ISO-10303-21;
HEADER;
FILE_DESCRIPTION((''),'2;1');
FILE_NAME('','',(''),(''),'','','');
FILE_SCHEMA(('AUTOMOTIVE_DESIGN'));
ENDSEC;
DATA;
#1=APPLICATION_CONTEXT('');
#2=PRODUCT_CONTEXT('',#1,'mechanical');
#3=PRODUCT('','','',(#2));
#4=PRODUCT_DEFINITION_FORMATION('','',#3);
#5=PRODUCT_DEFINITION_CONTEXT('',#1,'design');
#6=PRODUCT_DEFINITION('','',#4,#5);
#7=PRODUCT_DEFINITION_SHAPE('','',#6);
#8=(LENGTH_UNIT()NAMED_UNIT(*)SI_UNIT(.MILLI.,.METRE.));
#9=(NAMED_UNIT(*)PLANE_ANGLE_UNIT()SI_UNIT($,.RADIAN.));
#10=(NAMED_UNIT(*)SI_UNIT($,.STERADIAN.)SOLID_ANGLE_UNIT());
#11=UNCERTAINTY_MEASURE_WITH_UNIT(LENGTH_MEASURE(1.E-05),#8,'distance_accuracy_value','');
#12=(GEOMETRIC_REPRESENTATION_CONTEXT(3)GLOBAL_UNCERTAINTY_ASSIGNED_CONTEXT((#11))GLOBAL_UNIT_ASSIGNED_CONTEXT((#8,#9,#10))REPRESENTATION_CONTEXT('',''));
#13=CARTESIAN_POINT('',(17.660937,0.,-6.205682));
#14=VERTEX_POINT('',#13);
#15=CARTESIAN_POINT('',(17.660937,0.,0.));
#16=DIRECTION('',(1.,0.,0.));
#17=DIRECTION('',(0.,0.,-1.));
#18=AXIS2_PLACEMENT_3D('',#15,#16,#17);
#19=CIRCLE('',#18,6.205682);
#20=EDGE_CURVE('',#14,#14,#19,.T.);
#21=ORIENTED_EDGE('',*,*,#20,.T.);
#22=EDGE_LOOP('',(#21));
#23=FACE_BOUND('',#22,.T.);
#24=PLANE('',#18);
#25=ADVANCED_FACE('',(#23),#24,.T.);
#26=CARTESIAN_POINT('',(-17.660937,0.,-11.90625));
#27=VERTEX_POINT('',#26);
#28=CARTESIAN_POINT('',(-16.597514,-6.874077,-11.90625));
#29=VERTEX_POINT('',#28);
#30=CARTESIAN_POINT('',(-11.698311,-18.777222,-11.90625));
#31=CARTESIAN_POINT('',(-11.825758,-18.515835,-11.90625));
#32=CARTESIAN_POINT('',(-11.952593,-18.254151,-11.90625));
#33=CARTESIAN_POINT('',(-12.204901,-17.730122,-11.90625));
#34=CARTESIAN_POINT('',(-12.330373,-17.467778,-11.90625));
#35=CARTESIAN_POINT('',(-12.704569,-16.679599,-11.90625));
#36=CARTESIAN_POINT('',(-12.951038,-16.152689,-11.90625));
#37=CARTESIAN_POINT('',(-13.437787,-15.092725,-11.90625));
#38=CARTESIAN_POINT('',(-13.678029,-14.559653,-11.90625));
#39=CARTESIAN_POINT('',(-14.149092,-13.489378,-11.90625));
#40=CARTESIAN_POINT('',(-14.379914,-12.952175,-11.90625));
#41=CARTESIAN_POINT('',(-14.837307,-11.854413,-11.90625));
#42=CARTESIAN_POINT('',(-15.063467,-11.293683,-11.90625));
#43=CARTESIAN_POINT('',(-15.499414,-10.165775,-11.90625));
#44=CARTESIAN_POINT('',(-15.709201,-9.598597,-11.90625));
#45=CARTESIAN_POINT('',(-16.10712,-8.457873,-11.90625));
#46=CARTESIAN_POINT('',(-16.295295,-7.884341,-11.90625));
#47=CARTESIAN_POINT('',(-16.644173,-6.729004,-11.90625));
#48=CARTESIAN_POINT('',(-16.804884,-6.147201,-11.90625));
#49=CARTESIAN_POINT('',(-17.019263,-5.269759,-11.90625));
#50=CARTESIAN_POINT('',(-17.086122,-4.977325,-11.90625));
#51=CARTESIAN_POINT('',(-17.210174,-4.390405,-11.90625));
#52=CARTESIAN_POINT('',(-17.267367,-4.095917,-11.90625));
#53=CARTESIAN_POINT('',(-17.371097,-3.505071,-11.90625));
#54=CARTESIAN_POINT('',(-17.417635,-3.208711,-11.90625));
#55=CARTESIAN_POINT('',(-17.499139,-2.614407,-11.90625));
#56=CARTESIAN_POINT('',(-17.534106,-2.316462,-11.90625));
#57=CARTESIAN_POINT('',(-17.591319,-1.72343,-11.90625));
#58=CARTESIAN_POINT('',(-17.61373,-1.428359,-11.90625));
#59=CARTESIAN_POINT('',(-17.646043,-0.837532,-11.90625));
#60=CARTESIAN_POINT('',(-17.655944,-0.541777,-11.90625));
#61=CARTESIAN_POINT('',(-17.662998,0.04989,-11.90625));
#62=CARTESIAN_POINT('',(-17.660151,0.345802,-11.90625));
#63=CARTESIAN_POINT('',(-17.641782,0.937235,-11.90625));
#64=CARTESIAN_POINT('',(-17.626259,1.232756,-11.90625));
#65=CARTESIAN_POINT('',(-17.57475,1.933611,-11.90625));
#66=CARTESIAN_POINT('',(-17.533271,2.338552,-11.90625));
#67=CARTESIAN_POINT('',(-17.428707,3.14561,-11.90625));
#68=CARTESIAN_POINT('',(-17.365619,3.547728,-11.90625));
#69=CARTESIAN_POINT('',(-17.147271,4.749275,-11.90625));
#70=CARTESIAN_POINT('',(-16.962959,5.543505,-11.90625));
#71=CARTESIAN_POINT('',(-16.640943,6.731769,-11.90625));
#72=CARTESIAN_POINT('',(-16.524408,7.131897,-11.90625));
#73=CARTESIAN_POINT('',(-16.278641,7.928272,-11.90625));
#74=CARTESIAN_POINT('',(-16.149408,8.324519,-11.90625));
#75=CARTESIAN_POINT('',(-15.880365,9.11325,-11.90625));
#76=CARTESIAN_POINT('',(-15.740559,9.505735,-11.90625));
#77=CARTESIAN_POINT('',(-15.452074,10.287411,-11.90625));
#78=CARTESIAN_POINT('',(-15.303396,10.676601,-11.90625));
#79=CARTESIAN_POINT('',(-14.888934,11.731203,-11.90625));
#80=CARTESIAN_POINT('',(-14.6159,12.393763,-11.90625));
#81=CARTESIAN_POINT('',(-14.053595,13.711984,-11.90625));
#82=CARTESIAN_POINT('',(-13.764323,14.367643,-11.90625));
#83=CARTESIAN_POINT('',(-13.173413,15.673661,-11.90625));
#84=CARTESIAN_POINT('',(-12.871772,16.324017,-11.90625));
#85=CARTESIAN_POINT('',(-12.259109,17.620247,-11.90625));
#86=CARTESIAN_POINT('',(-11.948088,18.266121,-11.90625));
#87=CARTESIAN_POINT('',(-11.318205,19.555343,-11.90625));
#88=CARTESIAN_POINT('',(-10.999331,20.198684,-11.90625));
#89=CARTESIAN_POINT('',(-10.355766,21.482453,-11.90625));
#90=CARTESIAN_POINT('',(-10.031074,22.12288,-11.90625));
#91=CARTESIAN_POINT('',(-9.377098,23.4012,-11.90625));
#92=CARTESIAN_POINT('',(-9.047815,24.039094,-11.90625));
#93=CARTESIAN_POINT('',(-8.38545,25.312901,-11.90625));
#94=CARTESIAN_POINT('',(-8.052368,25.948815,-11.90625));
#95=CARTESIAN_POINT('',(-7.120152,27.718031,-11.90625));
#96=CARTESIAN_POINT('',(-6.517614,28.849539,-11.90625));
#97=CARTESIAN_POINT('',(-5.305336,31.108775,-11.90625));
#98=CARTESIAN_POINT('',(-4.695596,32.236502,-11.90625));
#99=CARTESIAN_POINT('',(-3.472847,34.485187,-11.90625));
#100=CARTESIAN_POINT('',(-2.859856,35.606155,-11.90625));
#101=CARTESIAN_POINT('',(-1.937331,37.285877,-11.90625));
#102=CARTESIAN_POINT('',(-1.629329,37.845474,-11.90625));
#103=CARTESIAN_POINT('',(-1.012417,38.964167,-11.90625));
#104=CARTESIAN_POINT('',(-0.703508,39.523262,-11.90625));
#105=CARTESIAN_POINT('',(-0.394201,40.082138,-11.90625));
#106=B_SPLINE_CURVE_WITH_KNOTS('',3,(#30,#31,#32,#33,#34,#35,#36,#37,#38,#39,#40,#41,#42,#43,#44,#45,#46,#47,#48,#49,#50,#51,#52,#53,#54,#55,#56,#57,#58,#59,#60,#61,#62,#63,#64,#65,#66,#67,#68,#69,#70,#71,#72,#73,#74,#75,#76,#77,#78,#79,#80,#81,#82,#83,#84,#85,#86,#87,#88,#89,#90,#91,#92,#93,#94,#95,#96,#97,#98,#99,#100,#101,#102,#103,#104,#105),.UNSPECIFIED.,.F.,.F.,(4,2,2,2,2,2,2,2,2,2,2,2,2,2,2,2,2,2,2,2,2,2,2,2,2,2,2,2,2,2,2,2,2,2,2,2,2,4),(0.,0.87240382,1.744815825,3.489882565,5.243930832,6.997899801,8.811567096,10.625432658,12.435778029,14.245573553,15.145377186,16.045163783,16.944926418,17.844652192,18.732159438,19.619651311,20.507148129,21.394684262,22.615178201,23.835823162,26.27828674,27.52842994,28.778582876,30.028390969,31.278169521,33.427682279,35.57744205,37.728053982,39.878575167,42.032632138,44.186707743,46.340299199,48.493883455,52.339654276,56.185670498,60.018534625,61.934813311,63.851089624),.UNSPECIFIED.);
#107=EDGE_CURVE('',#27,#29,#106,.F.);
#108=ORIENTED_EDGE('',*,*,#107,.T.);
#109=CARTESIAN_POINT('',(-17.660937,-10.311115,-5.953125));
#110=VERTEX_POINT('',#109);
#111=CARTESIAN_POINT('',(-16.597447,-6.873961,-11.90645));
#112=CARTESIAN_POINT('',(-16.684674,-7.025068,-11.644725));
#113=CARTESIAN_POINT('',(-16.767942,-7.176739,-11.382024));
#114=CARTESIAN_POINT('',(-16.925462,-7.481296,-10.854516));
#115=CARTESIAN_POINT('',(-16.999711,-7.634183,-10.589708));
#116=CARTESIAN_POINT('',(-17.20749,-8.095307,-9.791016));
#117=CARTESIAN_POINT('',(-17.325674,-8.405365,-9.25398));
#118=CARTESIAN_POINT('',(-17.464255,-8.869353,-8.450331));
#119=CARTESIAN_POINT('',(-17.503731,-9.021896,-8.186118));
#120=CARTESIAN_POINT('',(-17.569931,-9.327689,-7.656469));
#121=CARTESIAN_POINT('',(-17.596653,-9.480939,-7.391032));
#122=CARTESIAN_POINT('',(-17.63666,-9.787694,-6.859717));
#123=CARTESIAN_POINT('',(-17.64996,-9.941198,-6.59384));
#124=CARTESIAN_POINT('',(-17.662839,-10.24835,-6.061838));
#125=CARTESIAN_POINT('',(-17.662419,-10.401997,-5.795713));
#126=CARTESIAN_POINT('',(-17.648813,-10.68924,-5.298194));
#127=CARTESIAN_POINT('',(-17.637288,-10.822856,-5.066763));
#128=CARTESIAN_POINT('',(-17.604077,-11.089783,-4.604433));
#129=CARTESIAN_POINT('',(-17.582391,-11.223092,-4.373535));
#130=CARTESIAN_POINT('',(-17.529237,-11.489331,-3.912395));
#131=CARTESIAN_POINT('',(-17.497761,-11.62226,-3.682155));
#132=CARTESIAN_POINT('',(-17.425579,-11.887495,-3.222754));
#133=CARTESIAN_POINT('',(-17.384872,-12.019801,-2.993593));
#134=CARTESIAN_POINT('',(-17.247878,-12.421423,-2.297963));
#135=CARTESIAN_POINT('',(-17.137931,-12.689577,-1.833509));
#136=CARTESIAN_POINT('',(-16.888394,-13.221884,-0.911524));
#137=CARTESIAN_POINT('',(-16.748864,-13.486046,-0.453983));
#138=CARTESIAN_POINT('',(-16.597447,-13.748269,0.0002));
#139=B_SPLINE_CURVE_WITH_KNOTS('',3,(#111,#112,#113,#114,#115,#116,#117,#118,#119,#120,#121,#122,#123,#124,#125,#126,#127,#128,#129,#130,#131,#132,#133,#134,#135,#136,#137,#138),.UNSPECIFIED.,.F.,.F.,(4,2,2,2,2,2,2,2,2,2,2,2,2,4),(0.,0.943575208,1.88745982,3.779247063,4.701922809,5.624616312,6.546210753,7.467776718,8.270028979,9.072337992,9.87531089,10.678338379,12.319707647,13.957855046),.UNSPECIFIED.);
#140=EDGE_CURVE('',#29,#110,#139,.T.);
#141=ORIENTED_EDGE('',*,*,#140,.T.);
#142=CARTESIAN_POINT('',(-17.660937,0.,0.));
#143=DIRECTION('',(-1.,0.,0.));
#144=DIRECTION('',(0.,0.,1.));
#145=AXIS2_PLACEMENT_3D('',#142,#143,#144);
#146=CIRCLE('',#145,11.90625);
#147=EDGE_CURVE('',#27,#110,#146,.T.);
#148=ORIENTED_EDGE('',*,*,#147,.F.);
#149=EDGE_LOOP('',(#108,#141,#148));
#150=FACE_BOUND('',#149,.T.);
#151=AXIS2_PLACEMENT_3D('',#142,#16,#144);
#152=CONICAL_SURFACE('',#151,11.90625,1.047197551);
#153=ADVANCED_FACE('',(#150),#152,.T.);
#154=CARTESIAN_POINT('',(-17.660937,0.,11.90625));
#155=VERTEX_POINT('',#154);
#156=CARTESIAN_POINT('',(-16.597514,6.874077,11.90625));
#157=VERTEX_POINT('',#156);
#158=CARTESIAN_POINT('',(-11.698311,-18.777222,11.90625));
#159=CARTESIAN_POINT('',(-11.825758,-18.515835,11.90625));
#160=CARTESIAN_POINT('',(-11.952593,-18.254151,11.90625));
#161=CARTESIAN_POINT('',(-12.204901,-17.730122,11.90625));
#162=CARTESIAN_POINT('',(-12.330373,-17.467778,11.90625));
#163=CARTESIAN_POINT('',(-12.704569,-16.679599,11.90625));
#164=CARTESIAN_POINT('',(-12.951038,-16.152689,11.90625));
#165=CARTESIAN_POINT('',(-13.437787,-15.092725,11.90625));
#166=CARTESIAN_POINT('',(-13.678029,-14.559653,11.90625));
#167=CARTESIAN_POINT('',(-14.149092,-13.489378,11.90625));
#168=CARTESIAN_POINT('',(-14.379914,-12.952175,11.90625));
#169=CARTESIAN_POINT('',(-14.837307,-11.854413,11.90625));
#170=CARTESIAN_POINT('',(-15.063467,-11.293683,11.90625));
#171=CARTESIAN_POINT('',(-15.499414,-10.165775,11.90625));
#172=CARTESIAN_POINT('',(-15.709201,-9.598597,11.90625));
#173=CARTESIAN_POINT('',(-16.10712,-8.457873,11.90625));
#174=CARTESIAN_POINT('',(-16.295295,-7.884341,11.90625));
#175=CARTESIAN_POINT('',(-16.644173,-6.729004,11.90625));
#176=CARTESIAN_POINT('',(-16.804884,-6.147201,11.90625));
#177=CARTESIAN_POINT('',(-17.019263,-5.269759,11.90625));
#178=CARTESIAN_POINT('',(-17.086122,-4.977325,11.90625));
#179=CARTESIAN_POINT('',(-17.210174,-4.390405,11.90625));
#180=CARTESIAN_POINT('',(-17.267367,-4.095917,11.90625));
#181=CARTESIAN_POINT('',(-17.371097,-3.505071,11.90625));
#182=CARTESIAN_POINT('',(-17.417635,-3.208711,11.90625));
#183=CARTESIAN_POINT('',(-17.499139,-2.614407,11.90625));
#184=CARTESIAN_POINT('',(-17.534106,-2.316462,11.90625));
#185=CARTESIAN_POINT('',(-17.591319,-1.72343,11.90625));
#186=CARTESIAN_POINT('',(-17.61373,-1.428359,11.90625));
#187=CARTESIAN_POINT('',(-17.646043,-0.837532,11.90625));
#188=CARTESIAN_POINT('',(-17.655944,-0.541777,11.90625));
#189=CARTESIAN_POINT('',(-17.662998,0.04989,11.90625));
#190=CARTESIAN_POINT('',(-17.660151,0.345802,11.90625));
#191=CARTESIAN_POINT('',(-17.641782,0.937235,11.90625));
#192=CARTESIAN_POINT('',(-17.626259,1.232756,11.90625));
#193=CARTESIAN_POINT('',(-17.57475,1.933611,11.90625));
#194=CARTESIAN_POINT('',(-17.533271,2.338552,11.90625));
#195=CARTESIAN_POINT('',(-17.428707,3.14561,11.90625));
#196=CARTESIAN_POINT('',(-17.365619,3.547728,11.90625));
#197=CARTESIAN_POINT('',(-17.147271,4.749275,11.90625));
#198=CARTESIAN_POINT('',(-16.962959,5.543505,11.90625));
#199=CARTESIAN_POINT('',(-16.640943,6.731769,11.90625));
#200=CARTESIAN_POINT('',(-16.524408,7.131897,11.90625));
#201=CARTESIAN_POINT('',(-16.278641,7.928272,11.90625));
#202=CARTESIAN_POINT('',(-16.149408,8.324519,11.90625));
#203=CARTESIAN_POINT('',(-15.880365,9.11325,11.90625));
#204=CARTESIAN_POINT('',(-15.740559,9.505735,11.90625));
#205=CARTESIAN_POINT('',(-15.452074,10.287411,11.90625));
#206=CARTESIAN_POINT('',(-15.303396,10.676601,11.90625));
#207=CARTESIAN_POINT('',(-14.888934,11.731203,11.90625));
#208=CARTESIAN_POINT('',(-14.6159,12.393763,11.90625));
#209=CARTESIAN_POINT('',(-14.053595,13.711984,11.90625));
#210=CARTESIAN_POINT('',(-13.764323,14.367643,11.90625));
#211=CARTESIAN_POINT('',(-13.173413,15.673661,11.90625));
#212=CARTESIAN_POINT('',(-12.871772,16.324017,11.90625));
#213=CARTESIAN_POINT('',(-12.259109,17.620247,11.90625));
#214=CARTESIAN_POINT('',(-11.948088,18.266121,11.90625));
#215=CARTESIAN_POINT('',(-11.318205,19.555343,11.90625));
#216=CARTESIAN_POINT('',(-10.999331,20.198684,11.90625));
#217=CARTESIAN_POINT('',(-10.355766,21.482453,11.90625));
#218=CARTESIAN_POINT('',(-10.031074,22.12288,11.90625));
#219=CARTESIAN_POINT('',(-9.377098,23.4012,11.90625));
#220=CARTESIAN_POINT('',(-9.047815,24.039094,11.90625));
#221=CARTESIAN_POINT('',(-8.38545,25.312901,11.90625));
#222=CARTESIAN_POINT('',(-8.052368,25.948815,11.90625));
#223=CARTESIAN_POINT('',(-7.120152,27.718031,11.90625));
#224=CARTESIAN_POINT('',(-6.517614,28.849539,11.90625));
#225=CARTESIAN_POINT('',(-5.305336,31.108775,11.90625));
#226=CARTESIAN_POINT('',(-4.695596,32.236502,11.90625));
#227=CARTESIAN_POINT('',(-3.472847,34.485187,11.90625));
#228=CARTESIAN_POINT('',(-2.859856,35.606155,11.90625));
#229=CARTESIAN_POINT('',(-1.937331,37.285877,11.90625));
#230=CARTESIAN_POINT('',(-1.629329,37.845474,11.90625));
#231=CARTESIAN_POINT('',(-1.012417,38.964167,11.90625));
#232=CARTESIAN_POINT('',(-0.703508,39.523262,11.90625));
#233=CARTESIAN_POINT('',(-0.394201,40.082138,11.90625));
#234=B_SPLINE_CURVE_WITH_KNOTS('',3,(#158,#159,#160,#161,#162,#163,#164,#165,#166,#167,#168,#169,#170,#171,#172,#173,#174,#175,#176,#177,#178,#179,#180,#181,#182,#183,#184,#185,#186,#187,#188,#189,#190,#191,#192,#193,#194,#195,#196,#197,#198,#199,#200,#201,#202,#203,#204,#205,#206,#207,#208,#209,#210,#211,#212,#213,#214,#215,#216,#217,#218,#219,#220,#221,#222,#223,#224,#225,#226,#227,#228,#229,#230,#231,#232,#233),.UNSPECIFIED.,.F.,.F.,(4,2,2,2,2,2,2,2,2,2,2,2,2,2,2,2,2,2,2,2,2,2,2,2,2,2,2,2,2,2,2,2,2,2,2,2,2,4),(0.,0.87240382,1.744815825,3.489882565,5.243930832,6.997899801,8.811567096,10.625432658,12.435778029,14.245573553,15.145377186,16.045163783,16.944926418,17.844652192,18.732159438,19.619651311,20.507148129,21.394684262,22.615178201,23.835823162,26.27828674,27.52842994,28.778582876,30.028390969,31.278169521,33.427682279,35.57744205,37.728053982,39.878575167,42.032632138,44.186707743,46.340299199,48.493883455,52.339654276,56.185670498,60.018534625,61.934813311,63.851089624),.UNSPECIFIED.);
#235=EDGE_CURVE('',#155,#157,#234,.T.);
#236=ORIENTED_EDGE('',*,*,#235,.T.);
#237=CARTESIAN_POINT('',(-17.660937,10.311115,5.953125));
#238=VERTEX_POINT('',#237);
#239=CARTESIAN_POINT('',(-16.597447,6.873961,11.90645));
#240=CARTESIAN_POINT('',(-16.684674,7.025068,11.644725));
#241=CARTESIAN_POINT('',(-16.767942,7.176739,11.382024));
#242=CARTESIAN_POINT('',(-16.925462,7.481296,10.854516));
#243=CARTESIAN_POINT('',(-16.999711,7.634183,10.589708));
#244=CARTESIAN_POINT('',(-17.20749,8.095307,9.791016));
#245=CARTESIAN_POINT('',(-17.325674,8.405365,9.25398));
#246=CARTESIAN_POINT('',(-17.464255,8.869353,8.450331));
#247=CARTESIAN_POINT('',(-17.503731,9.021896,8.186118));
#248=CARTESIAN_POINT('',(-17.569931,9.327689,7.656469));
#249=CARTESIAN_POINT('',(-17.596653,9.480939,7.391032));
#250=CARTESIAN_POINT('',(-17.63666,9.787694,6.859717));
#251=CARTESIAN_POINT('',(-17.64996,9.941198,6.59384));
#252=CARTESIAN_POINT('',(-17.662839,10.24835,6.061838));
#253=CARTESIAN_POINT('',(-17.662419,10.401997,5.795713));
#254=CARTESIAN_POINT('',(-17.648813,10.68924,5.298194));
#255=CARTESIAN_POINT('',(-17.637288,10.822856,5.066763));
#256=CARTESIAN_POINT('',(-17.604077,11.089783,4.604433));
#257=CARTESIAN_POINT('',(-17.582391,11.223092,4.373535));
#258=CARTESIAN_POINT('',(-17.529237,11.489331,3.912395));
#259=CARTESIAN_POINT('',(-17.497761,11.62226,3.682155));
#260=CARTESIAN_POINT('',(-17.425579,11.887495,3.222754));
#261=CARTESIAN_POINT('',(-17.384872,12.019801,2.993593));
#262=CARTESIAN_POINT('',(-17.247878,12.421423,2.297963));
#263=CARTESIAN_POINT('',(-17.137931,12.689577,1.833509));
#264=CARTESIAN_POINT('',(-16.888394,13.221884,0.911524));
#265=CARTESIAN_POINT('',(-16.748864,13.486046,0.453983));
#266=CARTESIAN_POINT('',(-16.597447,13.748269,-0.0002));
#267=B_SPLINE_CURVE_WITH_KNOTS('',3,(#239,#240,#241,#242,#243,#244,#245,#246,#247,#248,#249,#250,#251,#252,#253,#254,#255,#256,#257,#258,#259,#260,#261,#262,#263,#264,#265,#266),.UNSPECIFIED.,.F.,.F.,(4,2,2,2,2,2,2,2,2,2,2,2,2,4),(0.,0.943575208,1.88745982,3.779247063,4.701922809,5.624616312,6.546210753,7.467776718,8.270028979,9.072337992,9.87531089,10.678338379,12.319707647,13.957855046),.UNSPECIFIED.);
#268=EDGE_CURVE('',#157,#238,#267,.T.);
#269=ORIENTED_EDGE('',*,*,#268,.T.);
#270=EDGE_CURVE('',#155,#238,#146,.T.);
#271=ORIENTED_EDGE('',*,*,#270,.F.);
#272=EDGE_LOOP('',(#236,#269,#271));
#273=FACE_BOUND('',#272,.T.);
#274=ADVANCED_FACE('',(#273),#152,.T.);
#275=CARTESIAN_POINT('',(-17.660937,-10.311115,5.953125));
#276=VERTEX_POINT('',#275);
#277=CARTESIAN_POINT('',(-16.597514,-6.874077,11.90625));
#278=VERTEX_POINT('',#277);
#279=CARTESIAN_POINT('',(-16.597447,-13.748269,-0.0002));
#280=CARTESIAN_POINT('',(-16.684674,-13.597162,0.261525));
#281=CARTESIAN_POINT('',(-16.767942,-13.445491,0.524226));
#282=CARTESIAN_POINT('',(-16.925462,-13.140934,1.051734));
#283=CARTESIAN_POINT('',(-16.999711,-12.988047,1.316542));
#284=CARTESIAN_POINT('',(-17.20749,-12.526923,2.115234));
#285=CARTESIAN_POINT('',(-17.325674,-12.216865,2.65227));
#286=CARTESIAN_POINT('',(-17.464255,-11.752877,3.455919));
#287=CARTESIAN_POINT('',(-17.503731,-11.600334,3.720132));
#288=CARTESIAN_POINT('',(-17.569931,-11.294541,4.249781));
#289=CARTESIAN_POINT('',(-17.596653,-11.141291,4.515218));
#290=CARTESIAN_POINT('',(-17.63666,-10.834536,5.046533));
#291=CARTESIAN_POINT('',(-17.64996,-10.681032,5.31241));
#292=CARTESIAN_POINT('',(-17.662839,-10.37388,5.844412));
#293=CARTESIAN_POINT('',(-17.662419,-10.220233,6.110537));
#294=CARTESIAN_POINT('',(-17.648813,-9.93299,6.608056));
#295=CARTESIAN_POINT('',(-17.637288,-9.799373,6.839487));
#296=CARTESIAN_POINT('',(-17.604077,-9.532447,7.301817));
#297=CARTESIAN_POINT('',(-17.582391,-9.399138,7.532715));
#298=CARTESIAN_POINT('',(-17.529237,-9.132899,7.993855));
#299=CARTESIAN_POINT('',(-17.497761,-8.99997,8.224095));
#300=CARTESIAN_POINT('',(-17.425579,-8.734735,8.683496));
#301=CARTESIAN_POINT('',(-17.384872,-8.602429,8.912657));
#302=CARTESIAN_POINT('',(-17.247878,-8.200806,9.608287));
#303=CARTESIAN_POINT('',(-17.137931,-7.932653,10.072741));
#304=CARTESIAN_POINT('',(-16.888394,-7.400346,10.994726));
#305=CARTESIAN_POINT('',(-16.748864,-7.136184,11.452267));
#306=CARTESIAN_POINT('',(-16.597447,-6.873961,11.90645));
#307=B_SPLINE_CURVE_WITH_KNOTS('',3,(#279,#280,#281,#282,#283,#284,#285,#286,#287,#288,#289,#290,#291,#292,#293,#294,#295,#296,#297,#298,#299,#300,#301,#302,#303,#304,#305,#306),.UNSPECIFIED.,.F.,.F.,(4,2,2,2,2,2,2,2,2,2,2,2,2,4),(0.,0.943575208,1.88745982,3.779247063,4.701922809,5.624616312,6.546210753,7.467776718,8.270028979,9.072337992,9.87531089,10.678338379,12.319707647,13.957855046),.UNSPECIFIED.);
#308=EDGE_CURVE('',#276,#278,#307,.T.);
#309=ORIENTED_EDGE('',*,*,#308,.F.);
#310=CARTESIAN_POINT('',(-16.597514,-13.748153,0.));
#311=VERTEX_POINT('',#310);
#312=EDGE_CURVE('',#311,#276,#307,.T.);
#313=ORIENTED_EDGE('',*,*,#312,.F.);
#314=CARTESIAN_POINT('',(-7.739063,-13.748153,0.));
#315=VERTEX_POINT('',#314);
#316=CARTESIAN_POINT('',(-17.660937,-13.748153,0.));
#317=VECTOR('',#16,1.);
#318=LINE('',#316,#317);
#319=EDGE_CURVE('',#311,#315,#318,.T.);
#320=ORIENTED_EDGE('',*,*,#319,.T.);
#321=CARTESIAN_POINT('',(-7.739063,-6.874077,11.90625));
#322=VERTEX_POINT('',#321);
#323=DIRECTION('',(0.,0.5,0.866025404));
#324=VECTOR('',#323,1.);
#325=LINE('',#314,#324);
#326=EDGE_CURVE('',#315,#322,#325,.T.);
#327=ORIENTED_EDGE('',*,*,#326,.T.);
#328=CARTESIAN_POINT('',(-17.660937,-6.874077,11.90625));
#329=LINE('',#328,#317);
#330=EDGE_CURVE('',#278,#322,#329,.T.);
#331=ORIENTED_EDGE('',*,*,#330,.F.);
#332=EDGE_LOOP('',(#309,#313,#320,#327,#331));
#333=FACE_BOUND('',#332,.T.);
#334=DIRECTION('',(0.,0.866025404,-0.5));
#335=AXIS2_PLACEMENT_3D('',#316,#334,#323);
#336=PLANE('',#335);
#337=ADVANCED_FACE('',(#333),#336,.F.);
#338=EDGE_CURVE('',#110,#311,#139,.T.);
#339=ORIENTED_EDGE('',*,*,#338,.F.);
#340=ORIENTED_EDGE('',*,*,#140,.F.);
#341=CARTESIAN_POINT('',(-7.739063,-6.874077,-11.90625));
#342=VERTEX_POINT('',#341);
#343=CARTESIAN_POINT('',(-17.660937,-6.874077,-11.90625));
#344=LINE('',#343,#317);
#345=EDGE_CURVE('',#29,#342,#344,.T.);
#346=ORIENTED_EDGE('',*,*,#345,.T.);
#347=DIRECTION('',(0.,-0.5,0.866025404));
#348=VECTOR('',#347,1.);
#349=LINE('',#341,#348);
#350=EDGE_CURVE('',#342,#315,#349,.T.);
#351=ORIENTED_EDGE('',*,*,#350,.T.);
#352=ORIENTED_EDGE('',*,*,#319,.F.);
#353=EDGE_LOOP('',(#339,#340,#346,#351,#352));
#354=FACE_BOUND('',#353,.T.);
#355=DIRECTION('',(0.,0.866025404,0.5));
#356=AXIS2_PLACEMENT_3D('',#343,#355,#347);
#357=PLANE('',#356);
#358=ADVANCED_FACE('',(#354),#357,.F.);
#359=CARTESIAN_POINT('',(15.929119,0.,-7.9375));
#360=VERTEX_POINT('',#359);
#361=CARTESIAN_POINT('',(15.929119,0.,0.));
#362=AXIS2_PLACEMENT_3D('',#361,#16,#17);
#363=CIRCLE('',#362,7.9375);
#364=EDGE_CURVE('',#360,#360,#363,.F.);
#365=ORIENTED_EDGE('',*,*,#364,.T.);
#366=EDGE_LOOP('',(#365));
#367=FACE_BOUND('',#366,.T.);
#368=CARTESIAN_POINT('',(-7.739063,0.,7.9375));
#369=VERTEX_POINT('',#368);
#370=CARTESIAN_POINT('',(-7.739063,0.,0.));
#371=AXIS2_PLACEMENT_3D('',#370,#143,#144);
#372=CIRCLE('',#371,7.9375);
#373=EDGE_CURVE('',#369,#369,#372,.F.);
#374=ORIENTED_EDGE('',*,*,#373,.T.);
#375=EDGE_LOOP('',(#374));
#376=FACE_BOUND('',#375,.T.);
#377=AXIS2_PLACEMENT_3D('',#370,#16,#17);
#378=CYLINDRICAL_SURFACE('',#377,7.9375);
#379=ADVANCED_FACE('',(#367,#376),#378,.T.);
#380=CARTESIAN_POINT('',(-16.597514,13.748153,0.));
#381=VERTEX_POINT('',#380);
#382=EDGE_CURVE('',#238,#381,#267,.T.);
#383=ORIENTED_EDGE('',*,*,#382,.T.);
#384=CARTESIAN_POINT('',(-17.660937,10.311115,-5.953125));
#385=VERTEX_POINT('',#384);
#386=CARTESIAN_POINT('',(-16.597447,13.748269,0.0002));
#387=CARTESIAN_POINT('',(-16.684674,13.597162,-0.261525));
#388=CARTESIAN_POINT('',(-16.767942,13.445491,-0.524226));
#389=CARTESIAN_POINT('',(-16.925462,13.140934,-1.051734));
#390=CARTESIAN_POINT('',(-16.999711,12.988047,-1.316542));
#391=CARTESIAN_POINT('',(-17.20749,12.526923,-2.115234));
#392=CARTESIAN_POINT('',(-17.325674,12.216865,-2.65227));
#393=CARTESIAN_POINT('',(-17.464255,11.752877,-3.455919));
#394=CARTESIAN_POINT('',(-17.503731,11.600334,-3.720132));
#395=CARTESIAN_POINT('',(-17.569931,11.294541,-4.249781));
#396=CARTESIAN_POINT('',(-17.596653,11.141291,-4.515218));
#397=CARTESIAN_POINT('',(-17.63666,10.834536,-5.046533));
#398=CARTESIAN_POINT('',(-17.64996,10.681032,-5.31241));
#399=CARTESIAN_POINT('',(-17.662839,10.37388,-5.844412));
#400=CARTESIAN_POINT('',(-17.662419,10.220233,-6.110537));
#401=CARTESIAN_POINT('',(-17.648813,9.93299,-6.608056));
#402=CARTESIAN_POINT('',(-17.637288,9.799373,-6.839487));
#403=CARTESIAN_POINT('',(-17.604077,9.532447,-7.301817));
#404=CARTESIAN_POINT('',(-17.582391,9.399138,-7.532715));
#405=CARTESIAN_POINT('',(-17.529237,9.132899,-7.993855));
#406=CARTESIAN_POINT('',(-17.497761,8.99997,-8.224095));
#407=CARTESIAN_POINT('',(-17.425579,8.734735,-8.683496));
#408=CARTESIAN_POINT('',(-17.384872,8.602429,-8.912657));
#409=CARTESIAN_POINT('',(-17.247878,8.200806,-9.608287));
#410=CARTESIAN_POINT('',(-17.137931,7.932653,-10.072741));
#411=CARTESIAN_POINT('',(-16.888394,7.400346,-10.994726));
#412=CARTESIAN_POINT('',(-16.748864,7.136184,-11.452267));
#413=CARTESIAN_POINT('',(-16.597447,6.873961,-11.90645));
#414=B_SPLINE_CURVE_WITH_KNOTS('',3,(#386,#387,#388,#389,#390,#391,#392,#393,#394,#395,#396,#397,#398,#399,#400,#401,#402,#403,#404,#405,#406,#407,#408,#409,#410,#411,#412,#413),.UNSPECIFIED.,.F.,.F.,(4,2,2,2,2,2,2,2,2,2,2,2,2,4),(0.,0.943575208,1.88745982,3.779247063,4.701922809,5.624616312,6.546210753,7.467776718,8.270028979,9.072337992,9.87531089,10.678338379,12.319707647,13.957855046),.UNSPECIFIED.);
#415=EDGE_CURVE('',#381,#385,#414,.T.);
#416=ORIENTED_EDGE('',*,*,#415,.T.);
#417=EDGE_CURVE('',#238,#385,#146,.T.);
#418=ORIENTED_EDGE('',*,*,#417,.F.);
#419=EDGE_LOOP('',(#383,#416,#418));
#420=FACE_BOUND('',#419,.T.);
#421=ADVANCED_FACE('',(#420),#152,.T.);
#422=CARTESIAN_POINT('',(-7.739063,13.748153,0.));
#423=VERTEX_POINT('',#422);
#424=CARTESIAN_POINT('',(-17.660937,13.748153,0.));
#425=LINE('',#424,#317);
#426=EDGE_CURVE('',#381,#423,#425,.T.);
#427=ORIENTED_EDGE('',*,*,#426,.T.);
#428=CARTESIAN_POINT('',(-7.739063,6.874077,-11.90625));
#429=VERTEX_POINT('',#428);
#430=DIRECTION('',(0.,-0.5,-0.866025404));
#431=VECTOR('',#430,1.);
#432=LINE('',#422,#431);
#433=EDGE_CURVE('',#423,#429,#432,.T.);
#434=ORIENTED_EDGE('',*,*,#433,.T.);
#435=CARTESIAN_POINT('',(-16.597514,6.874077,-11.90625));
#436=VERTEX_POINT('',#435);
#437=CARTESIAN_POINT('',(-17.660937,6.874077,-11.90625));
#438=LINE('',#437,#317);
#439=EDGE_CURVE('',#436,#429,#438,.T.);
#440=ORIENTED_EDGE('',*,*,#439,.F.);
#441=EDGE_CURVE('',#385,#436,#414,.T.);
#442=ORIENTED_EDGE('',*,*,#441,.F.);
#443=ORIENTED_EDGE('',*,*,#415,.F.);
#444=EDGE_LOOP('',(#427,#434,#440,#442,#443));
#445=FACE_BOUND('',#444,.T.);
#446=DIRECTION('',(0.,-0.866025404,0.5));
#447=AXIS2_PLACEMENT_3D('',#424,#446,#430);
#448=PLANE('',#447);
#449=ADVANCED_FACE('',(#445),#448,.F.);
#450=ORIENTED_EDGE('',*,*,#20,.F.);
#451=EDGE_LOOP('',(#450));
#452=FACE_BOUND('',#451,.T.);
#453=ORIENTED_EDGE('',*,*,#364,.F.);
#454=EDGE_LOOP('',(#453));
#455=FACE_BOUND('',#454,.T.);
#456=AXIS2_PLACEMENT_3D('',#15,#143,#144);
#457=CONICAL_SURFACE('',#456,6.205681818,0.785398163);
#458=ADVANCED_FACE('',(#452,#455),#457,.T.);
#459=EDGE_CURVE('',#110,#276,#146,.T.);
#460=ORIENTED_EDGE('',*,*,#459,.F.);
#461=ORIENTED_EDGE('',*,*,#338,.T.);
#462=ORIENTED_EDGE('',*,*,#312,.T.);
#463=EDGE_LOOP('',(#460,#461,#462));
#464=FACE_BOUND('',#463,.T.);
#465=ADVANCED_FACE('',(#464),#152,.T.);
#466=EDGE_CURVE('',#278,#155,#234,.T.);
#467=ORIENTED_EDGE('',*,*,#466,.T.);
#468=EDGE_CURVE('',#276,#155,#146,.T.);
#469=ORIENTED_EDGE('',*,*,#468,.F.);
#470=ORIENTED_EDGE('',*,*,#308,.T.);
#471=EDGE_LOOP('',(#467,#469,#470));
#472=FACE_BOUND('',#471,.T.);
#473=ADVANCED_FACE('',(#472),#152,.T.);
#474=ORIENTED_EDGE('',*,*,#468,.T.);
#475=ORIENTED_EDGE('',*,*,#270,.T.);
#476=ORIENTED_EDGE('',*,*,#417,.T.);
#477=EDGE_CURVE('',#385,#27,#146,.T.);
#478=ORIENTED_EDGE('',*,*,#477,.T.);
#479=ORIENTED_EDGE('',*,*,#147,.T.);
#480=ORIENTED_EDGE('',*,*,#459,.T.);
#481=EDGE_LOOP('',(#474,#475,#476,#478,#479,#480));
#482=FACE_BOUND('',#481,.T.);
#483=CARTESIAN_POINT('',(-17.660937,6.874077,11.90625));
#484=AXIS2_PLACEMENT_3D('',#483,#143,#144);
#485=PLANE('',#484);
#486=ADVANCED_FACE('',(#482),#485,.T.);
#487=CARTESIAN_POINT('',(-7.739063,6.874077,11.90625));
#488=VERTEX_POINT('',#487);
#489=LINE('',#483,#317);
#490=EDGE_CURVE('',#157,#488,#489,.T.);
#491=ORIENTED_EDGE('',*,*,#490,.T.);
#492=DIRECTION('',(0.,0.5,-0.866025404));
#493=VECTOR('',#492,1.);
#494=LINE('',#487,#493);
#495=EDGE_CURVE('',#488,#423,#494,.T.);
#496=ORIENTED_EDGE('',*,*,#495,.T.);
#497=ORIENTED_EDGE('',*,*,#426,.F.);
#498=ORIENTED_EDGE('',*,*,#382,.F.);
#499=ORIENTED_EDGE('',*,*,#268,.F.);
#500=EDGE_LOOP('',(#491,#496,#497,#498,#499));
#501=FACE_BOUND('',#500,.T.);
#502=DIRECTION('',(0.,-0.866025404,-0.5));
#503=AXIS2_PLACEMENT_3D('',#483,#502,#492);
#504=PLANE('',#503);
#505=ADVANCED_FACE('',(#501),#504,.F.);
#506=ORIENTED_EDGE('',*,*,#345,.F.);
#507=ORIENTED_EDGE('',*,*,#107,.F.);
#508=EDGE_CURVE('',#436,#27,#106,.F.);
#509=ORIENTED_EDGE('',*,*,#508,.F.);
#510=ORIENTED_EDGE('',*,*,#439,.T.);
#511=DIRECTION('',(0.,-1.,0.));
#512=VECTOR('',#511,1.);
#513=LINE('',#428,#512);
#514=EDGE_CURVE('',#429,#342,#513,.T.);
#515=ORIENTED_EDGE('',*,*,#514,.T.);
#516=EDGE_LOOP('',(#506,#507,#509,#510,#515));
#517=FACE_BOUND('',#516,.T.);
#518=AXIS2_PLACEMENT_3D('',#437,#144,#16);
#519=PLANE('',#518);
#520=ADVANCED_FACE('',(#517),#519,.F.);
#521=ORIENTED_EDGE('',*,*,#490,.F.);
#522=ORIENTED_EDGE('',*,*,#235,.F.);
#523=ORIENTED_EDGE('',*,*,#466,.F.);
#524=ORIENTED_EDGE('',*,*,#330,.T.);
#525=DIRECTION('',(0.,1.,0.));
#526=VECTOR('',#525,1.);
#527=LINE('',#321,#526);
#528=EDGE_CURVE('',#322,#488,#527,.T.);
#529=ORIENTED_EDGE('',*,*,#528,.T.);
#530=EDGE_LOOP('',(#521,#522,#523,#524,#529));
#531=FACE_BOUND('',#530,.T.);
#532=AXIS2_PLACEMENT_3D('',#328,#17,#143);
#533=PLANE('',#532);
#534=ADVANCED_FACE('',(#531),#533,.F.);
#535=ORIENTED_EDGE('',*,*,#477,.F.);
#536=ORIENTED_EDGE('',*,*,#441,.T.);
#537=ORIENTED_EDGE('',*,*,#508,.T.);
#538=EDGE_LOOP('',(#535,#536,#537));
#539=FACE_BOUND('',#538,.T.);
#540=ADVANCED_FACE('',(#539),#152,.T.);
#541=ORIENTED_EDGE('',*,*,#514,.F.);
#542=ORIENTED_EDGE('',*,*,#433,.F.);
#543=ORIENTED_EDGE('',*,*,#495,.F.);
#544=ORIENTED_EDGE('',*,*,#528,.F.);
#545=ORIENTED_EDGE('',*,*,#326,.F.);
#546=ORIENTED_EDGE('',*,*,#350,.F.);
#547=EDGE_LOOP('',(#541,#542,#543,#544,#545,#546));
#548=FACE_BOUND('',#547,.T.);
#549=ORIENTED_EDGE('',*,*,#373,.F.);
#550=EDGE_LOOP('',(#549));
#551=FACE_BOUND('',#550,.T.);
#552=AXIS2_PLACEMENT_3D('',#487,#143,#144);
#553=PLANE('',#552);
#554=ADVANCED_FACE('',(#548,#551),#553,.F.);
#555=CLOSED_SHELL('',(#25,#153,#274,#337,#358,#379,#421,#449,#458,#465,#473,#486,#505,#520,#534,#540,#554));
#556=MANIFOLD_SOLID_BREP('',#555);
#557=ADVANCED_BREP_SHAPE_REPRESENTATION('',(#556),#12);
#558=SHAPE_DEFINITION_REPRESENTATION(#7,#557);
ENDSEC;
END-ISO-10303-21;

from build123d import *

# Parameters (mm, degrees)
SKETCH5_R           = 7.9375
BOSS_EXTRUDE3_DEPTH = 25.4
CHAMFER1_SIZE       = 1.731818182
BOSS_EXTRUDE4_DEPTH = 9.921875
SKETCH8_OUTSIDE_W   = 161.776
SKETCH8_OUTSIDE_H   = 165.46
SKETCH8_OUTSIDE_R   = 11.90625
CUT_EXTRUDE3_DEPTH  = 36.321875
CUT_EXTRUDE3_TAPER  = 60


with BuildPart() as part:
    # Sketch5 → Boss-Extrude3 (new body)
    with BuildSketch(Plane(origin=(17.6609375, 0, 0), x_dir=(0, 0, -1), z_dir=(1, 0, 0))):
        Circle(SKETCH5_R)
    extrude(amount=-BOSS_EXTRUDE3_DEPTH)

    # Chamfer1
    chamfer1_edges = [part.edges().sort_by_distance(p)[0] for p in [
        (17.6609375, 0, 7.9375),
    ]]
    chamfer(chamfer1_edges, length=CHAMFER1_SIZE)

    # Sketch6 → Boss-Extrude4 (add)
    with BuildSketch(Plane.ZY.offset(7.7390625)):
        Polygon((11.90625, 6.874076643), (0, 13.748153285), (-11.90625, 6.874076643), (-11.90625, -6.874076643), (0, -13.748153285), (11.90625, -6.874076643), align=None)
    extrude(amount=BOSS_EXTRUDE4_DEPTH)

    # Sketch8 outside → Cut-Extrude3 (cut, through all)
    with BuildSketch(Plane.ZY.offset(17.6609375)):
        Rectangle(SKETCH8_OUTSIDE_W, SKETCH8_OUTSIDE_H)
        Circle(SKETCH8_OUTSIDE_R, mode=Mode.SUBTRACT)
    extrude(amount=-CUT_EXTRUDE3_DEPTH, taper=CUT_EXTRUDE3_TAPER, mode=Mode.SUBTRACT)


solid = part.part
